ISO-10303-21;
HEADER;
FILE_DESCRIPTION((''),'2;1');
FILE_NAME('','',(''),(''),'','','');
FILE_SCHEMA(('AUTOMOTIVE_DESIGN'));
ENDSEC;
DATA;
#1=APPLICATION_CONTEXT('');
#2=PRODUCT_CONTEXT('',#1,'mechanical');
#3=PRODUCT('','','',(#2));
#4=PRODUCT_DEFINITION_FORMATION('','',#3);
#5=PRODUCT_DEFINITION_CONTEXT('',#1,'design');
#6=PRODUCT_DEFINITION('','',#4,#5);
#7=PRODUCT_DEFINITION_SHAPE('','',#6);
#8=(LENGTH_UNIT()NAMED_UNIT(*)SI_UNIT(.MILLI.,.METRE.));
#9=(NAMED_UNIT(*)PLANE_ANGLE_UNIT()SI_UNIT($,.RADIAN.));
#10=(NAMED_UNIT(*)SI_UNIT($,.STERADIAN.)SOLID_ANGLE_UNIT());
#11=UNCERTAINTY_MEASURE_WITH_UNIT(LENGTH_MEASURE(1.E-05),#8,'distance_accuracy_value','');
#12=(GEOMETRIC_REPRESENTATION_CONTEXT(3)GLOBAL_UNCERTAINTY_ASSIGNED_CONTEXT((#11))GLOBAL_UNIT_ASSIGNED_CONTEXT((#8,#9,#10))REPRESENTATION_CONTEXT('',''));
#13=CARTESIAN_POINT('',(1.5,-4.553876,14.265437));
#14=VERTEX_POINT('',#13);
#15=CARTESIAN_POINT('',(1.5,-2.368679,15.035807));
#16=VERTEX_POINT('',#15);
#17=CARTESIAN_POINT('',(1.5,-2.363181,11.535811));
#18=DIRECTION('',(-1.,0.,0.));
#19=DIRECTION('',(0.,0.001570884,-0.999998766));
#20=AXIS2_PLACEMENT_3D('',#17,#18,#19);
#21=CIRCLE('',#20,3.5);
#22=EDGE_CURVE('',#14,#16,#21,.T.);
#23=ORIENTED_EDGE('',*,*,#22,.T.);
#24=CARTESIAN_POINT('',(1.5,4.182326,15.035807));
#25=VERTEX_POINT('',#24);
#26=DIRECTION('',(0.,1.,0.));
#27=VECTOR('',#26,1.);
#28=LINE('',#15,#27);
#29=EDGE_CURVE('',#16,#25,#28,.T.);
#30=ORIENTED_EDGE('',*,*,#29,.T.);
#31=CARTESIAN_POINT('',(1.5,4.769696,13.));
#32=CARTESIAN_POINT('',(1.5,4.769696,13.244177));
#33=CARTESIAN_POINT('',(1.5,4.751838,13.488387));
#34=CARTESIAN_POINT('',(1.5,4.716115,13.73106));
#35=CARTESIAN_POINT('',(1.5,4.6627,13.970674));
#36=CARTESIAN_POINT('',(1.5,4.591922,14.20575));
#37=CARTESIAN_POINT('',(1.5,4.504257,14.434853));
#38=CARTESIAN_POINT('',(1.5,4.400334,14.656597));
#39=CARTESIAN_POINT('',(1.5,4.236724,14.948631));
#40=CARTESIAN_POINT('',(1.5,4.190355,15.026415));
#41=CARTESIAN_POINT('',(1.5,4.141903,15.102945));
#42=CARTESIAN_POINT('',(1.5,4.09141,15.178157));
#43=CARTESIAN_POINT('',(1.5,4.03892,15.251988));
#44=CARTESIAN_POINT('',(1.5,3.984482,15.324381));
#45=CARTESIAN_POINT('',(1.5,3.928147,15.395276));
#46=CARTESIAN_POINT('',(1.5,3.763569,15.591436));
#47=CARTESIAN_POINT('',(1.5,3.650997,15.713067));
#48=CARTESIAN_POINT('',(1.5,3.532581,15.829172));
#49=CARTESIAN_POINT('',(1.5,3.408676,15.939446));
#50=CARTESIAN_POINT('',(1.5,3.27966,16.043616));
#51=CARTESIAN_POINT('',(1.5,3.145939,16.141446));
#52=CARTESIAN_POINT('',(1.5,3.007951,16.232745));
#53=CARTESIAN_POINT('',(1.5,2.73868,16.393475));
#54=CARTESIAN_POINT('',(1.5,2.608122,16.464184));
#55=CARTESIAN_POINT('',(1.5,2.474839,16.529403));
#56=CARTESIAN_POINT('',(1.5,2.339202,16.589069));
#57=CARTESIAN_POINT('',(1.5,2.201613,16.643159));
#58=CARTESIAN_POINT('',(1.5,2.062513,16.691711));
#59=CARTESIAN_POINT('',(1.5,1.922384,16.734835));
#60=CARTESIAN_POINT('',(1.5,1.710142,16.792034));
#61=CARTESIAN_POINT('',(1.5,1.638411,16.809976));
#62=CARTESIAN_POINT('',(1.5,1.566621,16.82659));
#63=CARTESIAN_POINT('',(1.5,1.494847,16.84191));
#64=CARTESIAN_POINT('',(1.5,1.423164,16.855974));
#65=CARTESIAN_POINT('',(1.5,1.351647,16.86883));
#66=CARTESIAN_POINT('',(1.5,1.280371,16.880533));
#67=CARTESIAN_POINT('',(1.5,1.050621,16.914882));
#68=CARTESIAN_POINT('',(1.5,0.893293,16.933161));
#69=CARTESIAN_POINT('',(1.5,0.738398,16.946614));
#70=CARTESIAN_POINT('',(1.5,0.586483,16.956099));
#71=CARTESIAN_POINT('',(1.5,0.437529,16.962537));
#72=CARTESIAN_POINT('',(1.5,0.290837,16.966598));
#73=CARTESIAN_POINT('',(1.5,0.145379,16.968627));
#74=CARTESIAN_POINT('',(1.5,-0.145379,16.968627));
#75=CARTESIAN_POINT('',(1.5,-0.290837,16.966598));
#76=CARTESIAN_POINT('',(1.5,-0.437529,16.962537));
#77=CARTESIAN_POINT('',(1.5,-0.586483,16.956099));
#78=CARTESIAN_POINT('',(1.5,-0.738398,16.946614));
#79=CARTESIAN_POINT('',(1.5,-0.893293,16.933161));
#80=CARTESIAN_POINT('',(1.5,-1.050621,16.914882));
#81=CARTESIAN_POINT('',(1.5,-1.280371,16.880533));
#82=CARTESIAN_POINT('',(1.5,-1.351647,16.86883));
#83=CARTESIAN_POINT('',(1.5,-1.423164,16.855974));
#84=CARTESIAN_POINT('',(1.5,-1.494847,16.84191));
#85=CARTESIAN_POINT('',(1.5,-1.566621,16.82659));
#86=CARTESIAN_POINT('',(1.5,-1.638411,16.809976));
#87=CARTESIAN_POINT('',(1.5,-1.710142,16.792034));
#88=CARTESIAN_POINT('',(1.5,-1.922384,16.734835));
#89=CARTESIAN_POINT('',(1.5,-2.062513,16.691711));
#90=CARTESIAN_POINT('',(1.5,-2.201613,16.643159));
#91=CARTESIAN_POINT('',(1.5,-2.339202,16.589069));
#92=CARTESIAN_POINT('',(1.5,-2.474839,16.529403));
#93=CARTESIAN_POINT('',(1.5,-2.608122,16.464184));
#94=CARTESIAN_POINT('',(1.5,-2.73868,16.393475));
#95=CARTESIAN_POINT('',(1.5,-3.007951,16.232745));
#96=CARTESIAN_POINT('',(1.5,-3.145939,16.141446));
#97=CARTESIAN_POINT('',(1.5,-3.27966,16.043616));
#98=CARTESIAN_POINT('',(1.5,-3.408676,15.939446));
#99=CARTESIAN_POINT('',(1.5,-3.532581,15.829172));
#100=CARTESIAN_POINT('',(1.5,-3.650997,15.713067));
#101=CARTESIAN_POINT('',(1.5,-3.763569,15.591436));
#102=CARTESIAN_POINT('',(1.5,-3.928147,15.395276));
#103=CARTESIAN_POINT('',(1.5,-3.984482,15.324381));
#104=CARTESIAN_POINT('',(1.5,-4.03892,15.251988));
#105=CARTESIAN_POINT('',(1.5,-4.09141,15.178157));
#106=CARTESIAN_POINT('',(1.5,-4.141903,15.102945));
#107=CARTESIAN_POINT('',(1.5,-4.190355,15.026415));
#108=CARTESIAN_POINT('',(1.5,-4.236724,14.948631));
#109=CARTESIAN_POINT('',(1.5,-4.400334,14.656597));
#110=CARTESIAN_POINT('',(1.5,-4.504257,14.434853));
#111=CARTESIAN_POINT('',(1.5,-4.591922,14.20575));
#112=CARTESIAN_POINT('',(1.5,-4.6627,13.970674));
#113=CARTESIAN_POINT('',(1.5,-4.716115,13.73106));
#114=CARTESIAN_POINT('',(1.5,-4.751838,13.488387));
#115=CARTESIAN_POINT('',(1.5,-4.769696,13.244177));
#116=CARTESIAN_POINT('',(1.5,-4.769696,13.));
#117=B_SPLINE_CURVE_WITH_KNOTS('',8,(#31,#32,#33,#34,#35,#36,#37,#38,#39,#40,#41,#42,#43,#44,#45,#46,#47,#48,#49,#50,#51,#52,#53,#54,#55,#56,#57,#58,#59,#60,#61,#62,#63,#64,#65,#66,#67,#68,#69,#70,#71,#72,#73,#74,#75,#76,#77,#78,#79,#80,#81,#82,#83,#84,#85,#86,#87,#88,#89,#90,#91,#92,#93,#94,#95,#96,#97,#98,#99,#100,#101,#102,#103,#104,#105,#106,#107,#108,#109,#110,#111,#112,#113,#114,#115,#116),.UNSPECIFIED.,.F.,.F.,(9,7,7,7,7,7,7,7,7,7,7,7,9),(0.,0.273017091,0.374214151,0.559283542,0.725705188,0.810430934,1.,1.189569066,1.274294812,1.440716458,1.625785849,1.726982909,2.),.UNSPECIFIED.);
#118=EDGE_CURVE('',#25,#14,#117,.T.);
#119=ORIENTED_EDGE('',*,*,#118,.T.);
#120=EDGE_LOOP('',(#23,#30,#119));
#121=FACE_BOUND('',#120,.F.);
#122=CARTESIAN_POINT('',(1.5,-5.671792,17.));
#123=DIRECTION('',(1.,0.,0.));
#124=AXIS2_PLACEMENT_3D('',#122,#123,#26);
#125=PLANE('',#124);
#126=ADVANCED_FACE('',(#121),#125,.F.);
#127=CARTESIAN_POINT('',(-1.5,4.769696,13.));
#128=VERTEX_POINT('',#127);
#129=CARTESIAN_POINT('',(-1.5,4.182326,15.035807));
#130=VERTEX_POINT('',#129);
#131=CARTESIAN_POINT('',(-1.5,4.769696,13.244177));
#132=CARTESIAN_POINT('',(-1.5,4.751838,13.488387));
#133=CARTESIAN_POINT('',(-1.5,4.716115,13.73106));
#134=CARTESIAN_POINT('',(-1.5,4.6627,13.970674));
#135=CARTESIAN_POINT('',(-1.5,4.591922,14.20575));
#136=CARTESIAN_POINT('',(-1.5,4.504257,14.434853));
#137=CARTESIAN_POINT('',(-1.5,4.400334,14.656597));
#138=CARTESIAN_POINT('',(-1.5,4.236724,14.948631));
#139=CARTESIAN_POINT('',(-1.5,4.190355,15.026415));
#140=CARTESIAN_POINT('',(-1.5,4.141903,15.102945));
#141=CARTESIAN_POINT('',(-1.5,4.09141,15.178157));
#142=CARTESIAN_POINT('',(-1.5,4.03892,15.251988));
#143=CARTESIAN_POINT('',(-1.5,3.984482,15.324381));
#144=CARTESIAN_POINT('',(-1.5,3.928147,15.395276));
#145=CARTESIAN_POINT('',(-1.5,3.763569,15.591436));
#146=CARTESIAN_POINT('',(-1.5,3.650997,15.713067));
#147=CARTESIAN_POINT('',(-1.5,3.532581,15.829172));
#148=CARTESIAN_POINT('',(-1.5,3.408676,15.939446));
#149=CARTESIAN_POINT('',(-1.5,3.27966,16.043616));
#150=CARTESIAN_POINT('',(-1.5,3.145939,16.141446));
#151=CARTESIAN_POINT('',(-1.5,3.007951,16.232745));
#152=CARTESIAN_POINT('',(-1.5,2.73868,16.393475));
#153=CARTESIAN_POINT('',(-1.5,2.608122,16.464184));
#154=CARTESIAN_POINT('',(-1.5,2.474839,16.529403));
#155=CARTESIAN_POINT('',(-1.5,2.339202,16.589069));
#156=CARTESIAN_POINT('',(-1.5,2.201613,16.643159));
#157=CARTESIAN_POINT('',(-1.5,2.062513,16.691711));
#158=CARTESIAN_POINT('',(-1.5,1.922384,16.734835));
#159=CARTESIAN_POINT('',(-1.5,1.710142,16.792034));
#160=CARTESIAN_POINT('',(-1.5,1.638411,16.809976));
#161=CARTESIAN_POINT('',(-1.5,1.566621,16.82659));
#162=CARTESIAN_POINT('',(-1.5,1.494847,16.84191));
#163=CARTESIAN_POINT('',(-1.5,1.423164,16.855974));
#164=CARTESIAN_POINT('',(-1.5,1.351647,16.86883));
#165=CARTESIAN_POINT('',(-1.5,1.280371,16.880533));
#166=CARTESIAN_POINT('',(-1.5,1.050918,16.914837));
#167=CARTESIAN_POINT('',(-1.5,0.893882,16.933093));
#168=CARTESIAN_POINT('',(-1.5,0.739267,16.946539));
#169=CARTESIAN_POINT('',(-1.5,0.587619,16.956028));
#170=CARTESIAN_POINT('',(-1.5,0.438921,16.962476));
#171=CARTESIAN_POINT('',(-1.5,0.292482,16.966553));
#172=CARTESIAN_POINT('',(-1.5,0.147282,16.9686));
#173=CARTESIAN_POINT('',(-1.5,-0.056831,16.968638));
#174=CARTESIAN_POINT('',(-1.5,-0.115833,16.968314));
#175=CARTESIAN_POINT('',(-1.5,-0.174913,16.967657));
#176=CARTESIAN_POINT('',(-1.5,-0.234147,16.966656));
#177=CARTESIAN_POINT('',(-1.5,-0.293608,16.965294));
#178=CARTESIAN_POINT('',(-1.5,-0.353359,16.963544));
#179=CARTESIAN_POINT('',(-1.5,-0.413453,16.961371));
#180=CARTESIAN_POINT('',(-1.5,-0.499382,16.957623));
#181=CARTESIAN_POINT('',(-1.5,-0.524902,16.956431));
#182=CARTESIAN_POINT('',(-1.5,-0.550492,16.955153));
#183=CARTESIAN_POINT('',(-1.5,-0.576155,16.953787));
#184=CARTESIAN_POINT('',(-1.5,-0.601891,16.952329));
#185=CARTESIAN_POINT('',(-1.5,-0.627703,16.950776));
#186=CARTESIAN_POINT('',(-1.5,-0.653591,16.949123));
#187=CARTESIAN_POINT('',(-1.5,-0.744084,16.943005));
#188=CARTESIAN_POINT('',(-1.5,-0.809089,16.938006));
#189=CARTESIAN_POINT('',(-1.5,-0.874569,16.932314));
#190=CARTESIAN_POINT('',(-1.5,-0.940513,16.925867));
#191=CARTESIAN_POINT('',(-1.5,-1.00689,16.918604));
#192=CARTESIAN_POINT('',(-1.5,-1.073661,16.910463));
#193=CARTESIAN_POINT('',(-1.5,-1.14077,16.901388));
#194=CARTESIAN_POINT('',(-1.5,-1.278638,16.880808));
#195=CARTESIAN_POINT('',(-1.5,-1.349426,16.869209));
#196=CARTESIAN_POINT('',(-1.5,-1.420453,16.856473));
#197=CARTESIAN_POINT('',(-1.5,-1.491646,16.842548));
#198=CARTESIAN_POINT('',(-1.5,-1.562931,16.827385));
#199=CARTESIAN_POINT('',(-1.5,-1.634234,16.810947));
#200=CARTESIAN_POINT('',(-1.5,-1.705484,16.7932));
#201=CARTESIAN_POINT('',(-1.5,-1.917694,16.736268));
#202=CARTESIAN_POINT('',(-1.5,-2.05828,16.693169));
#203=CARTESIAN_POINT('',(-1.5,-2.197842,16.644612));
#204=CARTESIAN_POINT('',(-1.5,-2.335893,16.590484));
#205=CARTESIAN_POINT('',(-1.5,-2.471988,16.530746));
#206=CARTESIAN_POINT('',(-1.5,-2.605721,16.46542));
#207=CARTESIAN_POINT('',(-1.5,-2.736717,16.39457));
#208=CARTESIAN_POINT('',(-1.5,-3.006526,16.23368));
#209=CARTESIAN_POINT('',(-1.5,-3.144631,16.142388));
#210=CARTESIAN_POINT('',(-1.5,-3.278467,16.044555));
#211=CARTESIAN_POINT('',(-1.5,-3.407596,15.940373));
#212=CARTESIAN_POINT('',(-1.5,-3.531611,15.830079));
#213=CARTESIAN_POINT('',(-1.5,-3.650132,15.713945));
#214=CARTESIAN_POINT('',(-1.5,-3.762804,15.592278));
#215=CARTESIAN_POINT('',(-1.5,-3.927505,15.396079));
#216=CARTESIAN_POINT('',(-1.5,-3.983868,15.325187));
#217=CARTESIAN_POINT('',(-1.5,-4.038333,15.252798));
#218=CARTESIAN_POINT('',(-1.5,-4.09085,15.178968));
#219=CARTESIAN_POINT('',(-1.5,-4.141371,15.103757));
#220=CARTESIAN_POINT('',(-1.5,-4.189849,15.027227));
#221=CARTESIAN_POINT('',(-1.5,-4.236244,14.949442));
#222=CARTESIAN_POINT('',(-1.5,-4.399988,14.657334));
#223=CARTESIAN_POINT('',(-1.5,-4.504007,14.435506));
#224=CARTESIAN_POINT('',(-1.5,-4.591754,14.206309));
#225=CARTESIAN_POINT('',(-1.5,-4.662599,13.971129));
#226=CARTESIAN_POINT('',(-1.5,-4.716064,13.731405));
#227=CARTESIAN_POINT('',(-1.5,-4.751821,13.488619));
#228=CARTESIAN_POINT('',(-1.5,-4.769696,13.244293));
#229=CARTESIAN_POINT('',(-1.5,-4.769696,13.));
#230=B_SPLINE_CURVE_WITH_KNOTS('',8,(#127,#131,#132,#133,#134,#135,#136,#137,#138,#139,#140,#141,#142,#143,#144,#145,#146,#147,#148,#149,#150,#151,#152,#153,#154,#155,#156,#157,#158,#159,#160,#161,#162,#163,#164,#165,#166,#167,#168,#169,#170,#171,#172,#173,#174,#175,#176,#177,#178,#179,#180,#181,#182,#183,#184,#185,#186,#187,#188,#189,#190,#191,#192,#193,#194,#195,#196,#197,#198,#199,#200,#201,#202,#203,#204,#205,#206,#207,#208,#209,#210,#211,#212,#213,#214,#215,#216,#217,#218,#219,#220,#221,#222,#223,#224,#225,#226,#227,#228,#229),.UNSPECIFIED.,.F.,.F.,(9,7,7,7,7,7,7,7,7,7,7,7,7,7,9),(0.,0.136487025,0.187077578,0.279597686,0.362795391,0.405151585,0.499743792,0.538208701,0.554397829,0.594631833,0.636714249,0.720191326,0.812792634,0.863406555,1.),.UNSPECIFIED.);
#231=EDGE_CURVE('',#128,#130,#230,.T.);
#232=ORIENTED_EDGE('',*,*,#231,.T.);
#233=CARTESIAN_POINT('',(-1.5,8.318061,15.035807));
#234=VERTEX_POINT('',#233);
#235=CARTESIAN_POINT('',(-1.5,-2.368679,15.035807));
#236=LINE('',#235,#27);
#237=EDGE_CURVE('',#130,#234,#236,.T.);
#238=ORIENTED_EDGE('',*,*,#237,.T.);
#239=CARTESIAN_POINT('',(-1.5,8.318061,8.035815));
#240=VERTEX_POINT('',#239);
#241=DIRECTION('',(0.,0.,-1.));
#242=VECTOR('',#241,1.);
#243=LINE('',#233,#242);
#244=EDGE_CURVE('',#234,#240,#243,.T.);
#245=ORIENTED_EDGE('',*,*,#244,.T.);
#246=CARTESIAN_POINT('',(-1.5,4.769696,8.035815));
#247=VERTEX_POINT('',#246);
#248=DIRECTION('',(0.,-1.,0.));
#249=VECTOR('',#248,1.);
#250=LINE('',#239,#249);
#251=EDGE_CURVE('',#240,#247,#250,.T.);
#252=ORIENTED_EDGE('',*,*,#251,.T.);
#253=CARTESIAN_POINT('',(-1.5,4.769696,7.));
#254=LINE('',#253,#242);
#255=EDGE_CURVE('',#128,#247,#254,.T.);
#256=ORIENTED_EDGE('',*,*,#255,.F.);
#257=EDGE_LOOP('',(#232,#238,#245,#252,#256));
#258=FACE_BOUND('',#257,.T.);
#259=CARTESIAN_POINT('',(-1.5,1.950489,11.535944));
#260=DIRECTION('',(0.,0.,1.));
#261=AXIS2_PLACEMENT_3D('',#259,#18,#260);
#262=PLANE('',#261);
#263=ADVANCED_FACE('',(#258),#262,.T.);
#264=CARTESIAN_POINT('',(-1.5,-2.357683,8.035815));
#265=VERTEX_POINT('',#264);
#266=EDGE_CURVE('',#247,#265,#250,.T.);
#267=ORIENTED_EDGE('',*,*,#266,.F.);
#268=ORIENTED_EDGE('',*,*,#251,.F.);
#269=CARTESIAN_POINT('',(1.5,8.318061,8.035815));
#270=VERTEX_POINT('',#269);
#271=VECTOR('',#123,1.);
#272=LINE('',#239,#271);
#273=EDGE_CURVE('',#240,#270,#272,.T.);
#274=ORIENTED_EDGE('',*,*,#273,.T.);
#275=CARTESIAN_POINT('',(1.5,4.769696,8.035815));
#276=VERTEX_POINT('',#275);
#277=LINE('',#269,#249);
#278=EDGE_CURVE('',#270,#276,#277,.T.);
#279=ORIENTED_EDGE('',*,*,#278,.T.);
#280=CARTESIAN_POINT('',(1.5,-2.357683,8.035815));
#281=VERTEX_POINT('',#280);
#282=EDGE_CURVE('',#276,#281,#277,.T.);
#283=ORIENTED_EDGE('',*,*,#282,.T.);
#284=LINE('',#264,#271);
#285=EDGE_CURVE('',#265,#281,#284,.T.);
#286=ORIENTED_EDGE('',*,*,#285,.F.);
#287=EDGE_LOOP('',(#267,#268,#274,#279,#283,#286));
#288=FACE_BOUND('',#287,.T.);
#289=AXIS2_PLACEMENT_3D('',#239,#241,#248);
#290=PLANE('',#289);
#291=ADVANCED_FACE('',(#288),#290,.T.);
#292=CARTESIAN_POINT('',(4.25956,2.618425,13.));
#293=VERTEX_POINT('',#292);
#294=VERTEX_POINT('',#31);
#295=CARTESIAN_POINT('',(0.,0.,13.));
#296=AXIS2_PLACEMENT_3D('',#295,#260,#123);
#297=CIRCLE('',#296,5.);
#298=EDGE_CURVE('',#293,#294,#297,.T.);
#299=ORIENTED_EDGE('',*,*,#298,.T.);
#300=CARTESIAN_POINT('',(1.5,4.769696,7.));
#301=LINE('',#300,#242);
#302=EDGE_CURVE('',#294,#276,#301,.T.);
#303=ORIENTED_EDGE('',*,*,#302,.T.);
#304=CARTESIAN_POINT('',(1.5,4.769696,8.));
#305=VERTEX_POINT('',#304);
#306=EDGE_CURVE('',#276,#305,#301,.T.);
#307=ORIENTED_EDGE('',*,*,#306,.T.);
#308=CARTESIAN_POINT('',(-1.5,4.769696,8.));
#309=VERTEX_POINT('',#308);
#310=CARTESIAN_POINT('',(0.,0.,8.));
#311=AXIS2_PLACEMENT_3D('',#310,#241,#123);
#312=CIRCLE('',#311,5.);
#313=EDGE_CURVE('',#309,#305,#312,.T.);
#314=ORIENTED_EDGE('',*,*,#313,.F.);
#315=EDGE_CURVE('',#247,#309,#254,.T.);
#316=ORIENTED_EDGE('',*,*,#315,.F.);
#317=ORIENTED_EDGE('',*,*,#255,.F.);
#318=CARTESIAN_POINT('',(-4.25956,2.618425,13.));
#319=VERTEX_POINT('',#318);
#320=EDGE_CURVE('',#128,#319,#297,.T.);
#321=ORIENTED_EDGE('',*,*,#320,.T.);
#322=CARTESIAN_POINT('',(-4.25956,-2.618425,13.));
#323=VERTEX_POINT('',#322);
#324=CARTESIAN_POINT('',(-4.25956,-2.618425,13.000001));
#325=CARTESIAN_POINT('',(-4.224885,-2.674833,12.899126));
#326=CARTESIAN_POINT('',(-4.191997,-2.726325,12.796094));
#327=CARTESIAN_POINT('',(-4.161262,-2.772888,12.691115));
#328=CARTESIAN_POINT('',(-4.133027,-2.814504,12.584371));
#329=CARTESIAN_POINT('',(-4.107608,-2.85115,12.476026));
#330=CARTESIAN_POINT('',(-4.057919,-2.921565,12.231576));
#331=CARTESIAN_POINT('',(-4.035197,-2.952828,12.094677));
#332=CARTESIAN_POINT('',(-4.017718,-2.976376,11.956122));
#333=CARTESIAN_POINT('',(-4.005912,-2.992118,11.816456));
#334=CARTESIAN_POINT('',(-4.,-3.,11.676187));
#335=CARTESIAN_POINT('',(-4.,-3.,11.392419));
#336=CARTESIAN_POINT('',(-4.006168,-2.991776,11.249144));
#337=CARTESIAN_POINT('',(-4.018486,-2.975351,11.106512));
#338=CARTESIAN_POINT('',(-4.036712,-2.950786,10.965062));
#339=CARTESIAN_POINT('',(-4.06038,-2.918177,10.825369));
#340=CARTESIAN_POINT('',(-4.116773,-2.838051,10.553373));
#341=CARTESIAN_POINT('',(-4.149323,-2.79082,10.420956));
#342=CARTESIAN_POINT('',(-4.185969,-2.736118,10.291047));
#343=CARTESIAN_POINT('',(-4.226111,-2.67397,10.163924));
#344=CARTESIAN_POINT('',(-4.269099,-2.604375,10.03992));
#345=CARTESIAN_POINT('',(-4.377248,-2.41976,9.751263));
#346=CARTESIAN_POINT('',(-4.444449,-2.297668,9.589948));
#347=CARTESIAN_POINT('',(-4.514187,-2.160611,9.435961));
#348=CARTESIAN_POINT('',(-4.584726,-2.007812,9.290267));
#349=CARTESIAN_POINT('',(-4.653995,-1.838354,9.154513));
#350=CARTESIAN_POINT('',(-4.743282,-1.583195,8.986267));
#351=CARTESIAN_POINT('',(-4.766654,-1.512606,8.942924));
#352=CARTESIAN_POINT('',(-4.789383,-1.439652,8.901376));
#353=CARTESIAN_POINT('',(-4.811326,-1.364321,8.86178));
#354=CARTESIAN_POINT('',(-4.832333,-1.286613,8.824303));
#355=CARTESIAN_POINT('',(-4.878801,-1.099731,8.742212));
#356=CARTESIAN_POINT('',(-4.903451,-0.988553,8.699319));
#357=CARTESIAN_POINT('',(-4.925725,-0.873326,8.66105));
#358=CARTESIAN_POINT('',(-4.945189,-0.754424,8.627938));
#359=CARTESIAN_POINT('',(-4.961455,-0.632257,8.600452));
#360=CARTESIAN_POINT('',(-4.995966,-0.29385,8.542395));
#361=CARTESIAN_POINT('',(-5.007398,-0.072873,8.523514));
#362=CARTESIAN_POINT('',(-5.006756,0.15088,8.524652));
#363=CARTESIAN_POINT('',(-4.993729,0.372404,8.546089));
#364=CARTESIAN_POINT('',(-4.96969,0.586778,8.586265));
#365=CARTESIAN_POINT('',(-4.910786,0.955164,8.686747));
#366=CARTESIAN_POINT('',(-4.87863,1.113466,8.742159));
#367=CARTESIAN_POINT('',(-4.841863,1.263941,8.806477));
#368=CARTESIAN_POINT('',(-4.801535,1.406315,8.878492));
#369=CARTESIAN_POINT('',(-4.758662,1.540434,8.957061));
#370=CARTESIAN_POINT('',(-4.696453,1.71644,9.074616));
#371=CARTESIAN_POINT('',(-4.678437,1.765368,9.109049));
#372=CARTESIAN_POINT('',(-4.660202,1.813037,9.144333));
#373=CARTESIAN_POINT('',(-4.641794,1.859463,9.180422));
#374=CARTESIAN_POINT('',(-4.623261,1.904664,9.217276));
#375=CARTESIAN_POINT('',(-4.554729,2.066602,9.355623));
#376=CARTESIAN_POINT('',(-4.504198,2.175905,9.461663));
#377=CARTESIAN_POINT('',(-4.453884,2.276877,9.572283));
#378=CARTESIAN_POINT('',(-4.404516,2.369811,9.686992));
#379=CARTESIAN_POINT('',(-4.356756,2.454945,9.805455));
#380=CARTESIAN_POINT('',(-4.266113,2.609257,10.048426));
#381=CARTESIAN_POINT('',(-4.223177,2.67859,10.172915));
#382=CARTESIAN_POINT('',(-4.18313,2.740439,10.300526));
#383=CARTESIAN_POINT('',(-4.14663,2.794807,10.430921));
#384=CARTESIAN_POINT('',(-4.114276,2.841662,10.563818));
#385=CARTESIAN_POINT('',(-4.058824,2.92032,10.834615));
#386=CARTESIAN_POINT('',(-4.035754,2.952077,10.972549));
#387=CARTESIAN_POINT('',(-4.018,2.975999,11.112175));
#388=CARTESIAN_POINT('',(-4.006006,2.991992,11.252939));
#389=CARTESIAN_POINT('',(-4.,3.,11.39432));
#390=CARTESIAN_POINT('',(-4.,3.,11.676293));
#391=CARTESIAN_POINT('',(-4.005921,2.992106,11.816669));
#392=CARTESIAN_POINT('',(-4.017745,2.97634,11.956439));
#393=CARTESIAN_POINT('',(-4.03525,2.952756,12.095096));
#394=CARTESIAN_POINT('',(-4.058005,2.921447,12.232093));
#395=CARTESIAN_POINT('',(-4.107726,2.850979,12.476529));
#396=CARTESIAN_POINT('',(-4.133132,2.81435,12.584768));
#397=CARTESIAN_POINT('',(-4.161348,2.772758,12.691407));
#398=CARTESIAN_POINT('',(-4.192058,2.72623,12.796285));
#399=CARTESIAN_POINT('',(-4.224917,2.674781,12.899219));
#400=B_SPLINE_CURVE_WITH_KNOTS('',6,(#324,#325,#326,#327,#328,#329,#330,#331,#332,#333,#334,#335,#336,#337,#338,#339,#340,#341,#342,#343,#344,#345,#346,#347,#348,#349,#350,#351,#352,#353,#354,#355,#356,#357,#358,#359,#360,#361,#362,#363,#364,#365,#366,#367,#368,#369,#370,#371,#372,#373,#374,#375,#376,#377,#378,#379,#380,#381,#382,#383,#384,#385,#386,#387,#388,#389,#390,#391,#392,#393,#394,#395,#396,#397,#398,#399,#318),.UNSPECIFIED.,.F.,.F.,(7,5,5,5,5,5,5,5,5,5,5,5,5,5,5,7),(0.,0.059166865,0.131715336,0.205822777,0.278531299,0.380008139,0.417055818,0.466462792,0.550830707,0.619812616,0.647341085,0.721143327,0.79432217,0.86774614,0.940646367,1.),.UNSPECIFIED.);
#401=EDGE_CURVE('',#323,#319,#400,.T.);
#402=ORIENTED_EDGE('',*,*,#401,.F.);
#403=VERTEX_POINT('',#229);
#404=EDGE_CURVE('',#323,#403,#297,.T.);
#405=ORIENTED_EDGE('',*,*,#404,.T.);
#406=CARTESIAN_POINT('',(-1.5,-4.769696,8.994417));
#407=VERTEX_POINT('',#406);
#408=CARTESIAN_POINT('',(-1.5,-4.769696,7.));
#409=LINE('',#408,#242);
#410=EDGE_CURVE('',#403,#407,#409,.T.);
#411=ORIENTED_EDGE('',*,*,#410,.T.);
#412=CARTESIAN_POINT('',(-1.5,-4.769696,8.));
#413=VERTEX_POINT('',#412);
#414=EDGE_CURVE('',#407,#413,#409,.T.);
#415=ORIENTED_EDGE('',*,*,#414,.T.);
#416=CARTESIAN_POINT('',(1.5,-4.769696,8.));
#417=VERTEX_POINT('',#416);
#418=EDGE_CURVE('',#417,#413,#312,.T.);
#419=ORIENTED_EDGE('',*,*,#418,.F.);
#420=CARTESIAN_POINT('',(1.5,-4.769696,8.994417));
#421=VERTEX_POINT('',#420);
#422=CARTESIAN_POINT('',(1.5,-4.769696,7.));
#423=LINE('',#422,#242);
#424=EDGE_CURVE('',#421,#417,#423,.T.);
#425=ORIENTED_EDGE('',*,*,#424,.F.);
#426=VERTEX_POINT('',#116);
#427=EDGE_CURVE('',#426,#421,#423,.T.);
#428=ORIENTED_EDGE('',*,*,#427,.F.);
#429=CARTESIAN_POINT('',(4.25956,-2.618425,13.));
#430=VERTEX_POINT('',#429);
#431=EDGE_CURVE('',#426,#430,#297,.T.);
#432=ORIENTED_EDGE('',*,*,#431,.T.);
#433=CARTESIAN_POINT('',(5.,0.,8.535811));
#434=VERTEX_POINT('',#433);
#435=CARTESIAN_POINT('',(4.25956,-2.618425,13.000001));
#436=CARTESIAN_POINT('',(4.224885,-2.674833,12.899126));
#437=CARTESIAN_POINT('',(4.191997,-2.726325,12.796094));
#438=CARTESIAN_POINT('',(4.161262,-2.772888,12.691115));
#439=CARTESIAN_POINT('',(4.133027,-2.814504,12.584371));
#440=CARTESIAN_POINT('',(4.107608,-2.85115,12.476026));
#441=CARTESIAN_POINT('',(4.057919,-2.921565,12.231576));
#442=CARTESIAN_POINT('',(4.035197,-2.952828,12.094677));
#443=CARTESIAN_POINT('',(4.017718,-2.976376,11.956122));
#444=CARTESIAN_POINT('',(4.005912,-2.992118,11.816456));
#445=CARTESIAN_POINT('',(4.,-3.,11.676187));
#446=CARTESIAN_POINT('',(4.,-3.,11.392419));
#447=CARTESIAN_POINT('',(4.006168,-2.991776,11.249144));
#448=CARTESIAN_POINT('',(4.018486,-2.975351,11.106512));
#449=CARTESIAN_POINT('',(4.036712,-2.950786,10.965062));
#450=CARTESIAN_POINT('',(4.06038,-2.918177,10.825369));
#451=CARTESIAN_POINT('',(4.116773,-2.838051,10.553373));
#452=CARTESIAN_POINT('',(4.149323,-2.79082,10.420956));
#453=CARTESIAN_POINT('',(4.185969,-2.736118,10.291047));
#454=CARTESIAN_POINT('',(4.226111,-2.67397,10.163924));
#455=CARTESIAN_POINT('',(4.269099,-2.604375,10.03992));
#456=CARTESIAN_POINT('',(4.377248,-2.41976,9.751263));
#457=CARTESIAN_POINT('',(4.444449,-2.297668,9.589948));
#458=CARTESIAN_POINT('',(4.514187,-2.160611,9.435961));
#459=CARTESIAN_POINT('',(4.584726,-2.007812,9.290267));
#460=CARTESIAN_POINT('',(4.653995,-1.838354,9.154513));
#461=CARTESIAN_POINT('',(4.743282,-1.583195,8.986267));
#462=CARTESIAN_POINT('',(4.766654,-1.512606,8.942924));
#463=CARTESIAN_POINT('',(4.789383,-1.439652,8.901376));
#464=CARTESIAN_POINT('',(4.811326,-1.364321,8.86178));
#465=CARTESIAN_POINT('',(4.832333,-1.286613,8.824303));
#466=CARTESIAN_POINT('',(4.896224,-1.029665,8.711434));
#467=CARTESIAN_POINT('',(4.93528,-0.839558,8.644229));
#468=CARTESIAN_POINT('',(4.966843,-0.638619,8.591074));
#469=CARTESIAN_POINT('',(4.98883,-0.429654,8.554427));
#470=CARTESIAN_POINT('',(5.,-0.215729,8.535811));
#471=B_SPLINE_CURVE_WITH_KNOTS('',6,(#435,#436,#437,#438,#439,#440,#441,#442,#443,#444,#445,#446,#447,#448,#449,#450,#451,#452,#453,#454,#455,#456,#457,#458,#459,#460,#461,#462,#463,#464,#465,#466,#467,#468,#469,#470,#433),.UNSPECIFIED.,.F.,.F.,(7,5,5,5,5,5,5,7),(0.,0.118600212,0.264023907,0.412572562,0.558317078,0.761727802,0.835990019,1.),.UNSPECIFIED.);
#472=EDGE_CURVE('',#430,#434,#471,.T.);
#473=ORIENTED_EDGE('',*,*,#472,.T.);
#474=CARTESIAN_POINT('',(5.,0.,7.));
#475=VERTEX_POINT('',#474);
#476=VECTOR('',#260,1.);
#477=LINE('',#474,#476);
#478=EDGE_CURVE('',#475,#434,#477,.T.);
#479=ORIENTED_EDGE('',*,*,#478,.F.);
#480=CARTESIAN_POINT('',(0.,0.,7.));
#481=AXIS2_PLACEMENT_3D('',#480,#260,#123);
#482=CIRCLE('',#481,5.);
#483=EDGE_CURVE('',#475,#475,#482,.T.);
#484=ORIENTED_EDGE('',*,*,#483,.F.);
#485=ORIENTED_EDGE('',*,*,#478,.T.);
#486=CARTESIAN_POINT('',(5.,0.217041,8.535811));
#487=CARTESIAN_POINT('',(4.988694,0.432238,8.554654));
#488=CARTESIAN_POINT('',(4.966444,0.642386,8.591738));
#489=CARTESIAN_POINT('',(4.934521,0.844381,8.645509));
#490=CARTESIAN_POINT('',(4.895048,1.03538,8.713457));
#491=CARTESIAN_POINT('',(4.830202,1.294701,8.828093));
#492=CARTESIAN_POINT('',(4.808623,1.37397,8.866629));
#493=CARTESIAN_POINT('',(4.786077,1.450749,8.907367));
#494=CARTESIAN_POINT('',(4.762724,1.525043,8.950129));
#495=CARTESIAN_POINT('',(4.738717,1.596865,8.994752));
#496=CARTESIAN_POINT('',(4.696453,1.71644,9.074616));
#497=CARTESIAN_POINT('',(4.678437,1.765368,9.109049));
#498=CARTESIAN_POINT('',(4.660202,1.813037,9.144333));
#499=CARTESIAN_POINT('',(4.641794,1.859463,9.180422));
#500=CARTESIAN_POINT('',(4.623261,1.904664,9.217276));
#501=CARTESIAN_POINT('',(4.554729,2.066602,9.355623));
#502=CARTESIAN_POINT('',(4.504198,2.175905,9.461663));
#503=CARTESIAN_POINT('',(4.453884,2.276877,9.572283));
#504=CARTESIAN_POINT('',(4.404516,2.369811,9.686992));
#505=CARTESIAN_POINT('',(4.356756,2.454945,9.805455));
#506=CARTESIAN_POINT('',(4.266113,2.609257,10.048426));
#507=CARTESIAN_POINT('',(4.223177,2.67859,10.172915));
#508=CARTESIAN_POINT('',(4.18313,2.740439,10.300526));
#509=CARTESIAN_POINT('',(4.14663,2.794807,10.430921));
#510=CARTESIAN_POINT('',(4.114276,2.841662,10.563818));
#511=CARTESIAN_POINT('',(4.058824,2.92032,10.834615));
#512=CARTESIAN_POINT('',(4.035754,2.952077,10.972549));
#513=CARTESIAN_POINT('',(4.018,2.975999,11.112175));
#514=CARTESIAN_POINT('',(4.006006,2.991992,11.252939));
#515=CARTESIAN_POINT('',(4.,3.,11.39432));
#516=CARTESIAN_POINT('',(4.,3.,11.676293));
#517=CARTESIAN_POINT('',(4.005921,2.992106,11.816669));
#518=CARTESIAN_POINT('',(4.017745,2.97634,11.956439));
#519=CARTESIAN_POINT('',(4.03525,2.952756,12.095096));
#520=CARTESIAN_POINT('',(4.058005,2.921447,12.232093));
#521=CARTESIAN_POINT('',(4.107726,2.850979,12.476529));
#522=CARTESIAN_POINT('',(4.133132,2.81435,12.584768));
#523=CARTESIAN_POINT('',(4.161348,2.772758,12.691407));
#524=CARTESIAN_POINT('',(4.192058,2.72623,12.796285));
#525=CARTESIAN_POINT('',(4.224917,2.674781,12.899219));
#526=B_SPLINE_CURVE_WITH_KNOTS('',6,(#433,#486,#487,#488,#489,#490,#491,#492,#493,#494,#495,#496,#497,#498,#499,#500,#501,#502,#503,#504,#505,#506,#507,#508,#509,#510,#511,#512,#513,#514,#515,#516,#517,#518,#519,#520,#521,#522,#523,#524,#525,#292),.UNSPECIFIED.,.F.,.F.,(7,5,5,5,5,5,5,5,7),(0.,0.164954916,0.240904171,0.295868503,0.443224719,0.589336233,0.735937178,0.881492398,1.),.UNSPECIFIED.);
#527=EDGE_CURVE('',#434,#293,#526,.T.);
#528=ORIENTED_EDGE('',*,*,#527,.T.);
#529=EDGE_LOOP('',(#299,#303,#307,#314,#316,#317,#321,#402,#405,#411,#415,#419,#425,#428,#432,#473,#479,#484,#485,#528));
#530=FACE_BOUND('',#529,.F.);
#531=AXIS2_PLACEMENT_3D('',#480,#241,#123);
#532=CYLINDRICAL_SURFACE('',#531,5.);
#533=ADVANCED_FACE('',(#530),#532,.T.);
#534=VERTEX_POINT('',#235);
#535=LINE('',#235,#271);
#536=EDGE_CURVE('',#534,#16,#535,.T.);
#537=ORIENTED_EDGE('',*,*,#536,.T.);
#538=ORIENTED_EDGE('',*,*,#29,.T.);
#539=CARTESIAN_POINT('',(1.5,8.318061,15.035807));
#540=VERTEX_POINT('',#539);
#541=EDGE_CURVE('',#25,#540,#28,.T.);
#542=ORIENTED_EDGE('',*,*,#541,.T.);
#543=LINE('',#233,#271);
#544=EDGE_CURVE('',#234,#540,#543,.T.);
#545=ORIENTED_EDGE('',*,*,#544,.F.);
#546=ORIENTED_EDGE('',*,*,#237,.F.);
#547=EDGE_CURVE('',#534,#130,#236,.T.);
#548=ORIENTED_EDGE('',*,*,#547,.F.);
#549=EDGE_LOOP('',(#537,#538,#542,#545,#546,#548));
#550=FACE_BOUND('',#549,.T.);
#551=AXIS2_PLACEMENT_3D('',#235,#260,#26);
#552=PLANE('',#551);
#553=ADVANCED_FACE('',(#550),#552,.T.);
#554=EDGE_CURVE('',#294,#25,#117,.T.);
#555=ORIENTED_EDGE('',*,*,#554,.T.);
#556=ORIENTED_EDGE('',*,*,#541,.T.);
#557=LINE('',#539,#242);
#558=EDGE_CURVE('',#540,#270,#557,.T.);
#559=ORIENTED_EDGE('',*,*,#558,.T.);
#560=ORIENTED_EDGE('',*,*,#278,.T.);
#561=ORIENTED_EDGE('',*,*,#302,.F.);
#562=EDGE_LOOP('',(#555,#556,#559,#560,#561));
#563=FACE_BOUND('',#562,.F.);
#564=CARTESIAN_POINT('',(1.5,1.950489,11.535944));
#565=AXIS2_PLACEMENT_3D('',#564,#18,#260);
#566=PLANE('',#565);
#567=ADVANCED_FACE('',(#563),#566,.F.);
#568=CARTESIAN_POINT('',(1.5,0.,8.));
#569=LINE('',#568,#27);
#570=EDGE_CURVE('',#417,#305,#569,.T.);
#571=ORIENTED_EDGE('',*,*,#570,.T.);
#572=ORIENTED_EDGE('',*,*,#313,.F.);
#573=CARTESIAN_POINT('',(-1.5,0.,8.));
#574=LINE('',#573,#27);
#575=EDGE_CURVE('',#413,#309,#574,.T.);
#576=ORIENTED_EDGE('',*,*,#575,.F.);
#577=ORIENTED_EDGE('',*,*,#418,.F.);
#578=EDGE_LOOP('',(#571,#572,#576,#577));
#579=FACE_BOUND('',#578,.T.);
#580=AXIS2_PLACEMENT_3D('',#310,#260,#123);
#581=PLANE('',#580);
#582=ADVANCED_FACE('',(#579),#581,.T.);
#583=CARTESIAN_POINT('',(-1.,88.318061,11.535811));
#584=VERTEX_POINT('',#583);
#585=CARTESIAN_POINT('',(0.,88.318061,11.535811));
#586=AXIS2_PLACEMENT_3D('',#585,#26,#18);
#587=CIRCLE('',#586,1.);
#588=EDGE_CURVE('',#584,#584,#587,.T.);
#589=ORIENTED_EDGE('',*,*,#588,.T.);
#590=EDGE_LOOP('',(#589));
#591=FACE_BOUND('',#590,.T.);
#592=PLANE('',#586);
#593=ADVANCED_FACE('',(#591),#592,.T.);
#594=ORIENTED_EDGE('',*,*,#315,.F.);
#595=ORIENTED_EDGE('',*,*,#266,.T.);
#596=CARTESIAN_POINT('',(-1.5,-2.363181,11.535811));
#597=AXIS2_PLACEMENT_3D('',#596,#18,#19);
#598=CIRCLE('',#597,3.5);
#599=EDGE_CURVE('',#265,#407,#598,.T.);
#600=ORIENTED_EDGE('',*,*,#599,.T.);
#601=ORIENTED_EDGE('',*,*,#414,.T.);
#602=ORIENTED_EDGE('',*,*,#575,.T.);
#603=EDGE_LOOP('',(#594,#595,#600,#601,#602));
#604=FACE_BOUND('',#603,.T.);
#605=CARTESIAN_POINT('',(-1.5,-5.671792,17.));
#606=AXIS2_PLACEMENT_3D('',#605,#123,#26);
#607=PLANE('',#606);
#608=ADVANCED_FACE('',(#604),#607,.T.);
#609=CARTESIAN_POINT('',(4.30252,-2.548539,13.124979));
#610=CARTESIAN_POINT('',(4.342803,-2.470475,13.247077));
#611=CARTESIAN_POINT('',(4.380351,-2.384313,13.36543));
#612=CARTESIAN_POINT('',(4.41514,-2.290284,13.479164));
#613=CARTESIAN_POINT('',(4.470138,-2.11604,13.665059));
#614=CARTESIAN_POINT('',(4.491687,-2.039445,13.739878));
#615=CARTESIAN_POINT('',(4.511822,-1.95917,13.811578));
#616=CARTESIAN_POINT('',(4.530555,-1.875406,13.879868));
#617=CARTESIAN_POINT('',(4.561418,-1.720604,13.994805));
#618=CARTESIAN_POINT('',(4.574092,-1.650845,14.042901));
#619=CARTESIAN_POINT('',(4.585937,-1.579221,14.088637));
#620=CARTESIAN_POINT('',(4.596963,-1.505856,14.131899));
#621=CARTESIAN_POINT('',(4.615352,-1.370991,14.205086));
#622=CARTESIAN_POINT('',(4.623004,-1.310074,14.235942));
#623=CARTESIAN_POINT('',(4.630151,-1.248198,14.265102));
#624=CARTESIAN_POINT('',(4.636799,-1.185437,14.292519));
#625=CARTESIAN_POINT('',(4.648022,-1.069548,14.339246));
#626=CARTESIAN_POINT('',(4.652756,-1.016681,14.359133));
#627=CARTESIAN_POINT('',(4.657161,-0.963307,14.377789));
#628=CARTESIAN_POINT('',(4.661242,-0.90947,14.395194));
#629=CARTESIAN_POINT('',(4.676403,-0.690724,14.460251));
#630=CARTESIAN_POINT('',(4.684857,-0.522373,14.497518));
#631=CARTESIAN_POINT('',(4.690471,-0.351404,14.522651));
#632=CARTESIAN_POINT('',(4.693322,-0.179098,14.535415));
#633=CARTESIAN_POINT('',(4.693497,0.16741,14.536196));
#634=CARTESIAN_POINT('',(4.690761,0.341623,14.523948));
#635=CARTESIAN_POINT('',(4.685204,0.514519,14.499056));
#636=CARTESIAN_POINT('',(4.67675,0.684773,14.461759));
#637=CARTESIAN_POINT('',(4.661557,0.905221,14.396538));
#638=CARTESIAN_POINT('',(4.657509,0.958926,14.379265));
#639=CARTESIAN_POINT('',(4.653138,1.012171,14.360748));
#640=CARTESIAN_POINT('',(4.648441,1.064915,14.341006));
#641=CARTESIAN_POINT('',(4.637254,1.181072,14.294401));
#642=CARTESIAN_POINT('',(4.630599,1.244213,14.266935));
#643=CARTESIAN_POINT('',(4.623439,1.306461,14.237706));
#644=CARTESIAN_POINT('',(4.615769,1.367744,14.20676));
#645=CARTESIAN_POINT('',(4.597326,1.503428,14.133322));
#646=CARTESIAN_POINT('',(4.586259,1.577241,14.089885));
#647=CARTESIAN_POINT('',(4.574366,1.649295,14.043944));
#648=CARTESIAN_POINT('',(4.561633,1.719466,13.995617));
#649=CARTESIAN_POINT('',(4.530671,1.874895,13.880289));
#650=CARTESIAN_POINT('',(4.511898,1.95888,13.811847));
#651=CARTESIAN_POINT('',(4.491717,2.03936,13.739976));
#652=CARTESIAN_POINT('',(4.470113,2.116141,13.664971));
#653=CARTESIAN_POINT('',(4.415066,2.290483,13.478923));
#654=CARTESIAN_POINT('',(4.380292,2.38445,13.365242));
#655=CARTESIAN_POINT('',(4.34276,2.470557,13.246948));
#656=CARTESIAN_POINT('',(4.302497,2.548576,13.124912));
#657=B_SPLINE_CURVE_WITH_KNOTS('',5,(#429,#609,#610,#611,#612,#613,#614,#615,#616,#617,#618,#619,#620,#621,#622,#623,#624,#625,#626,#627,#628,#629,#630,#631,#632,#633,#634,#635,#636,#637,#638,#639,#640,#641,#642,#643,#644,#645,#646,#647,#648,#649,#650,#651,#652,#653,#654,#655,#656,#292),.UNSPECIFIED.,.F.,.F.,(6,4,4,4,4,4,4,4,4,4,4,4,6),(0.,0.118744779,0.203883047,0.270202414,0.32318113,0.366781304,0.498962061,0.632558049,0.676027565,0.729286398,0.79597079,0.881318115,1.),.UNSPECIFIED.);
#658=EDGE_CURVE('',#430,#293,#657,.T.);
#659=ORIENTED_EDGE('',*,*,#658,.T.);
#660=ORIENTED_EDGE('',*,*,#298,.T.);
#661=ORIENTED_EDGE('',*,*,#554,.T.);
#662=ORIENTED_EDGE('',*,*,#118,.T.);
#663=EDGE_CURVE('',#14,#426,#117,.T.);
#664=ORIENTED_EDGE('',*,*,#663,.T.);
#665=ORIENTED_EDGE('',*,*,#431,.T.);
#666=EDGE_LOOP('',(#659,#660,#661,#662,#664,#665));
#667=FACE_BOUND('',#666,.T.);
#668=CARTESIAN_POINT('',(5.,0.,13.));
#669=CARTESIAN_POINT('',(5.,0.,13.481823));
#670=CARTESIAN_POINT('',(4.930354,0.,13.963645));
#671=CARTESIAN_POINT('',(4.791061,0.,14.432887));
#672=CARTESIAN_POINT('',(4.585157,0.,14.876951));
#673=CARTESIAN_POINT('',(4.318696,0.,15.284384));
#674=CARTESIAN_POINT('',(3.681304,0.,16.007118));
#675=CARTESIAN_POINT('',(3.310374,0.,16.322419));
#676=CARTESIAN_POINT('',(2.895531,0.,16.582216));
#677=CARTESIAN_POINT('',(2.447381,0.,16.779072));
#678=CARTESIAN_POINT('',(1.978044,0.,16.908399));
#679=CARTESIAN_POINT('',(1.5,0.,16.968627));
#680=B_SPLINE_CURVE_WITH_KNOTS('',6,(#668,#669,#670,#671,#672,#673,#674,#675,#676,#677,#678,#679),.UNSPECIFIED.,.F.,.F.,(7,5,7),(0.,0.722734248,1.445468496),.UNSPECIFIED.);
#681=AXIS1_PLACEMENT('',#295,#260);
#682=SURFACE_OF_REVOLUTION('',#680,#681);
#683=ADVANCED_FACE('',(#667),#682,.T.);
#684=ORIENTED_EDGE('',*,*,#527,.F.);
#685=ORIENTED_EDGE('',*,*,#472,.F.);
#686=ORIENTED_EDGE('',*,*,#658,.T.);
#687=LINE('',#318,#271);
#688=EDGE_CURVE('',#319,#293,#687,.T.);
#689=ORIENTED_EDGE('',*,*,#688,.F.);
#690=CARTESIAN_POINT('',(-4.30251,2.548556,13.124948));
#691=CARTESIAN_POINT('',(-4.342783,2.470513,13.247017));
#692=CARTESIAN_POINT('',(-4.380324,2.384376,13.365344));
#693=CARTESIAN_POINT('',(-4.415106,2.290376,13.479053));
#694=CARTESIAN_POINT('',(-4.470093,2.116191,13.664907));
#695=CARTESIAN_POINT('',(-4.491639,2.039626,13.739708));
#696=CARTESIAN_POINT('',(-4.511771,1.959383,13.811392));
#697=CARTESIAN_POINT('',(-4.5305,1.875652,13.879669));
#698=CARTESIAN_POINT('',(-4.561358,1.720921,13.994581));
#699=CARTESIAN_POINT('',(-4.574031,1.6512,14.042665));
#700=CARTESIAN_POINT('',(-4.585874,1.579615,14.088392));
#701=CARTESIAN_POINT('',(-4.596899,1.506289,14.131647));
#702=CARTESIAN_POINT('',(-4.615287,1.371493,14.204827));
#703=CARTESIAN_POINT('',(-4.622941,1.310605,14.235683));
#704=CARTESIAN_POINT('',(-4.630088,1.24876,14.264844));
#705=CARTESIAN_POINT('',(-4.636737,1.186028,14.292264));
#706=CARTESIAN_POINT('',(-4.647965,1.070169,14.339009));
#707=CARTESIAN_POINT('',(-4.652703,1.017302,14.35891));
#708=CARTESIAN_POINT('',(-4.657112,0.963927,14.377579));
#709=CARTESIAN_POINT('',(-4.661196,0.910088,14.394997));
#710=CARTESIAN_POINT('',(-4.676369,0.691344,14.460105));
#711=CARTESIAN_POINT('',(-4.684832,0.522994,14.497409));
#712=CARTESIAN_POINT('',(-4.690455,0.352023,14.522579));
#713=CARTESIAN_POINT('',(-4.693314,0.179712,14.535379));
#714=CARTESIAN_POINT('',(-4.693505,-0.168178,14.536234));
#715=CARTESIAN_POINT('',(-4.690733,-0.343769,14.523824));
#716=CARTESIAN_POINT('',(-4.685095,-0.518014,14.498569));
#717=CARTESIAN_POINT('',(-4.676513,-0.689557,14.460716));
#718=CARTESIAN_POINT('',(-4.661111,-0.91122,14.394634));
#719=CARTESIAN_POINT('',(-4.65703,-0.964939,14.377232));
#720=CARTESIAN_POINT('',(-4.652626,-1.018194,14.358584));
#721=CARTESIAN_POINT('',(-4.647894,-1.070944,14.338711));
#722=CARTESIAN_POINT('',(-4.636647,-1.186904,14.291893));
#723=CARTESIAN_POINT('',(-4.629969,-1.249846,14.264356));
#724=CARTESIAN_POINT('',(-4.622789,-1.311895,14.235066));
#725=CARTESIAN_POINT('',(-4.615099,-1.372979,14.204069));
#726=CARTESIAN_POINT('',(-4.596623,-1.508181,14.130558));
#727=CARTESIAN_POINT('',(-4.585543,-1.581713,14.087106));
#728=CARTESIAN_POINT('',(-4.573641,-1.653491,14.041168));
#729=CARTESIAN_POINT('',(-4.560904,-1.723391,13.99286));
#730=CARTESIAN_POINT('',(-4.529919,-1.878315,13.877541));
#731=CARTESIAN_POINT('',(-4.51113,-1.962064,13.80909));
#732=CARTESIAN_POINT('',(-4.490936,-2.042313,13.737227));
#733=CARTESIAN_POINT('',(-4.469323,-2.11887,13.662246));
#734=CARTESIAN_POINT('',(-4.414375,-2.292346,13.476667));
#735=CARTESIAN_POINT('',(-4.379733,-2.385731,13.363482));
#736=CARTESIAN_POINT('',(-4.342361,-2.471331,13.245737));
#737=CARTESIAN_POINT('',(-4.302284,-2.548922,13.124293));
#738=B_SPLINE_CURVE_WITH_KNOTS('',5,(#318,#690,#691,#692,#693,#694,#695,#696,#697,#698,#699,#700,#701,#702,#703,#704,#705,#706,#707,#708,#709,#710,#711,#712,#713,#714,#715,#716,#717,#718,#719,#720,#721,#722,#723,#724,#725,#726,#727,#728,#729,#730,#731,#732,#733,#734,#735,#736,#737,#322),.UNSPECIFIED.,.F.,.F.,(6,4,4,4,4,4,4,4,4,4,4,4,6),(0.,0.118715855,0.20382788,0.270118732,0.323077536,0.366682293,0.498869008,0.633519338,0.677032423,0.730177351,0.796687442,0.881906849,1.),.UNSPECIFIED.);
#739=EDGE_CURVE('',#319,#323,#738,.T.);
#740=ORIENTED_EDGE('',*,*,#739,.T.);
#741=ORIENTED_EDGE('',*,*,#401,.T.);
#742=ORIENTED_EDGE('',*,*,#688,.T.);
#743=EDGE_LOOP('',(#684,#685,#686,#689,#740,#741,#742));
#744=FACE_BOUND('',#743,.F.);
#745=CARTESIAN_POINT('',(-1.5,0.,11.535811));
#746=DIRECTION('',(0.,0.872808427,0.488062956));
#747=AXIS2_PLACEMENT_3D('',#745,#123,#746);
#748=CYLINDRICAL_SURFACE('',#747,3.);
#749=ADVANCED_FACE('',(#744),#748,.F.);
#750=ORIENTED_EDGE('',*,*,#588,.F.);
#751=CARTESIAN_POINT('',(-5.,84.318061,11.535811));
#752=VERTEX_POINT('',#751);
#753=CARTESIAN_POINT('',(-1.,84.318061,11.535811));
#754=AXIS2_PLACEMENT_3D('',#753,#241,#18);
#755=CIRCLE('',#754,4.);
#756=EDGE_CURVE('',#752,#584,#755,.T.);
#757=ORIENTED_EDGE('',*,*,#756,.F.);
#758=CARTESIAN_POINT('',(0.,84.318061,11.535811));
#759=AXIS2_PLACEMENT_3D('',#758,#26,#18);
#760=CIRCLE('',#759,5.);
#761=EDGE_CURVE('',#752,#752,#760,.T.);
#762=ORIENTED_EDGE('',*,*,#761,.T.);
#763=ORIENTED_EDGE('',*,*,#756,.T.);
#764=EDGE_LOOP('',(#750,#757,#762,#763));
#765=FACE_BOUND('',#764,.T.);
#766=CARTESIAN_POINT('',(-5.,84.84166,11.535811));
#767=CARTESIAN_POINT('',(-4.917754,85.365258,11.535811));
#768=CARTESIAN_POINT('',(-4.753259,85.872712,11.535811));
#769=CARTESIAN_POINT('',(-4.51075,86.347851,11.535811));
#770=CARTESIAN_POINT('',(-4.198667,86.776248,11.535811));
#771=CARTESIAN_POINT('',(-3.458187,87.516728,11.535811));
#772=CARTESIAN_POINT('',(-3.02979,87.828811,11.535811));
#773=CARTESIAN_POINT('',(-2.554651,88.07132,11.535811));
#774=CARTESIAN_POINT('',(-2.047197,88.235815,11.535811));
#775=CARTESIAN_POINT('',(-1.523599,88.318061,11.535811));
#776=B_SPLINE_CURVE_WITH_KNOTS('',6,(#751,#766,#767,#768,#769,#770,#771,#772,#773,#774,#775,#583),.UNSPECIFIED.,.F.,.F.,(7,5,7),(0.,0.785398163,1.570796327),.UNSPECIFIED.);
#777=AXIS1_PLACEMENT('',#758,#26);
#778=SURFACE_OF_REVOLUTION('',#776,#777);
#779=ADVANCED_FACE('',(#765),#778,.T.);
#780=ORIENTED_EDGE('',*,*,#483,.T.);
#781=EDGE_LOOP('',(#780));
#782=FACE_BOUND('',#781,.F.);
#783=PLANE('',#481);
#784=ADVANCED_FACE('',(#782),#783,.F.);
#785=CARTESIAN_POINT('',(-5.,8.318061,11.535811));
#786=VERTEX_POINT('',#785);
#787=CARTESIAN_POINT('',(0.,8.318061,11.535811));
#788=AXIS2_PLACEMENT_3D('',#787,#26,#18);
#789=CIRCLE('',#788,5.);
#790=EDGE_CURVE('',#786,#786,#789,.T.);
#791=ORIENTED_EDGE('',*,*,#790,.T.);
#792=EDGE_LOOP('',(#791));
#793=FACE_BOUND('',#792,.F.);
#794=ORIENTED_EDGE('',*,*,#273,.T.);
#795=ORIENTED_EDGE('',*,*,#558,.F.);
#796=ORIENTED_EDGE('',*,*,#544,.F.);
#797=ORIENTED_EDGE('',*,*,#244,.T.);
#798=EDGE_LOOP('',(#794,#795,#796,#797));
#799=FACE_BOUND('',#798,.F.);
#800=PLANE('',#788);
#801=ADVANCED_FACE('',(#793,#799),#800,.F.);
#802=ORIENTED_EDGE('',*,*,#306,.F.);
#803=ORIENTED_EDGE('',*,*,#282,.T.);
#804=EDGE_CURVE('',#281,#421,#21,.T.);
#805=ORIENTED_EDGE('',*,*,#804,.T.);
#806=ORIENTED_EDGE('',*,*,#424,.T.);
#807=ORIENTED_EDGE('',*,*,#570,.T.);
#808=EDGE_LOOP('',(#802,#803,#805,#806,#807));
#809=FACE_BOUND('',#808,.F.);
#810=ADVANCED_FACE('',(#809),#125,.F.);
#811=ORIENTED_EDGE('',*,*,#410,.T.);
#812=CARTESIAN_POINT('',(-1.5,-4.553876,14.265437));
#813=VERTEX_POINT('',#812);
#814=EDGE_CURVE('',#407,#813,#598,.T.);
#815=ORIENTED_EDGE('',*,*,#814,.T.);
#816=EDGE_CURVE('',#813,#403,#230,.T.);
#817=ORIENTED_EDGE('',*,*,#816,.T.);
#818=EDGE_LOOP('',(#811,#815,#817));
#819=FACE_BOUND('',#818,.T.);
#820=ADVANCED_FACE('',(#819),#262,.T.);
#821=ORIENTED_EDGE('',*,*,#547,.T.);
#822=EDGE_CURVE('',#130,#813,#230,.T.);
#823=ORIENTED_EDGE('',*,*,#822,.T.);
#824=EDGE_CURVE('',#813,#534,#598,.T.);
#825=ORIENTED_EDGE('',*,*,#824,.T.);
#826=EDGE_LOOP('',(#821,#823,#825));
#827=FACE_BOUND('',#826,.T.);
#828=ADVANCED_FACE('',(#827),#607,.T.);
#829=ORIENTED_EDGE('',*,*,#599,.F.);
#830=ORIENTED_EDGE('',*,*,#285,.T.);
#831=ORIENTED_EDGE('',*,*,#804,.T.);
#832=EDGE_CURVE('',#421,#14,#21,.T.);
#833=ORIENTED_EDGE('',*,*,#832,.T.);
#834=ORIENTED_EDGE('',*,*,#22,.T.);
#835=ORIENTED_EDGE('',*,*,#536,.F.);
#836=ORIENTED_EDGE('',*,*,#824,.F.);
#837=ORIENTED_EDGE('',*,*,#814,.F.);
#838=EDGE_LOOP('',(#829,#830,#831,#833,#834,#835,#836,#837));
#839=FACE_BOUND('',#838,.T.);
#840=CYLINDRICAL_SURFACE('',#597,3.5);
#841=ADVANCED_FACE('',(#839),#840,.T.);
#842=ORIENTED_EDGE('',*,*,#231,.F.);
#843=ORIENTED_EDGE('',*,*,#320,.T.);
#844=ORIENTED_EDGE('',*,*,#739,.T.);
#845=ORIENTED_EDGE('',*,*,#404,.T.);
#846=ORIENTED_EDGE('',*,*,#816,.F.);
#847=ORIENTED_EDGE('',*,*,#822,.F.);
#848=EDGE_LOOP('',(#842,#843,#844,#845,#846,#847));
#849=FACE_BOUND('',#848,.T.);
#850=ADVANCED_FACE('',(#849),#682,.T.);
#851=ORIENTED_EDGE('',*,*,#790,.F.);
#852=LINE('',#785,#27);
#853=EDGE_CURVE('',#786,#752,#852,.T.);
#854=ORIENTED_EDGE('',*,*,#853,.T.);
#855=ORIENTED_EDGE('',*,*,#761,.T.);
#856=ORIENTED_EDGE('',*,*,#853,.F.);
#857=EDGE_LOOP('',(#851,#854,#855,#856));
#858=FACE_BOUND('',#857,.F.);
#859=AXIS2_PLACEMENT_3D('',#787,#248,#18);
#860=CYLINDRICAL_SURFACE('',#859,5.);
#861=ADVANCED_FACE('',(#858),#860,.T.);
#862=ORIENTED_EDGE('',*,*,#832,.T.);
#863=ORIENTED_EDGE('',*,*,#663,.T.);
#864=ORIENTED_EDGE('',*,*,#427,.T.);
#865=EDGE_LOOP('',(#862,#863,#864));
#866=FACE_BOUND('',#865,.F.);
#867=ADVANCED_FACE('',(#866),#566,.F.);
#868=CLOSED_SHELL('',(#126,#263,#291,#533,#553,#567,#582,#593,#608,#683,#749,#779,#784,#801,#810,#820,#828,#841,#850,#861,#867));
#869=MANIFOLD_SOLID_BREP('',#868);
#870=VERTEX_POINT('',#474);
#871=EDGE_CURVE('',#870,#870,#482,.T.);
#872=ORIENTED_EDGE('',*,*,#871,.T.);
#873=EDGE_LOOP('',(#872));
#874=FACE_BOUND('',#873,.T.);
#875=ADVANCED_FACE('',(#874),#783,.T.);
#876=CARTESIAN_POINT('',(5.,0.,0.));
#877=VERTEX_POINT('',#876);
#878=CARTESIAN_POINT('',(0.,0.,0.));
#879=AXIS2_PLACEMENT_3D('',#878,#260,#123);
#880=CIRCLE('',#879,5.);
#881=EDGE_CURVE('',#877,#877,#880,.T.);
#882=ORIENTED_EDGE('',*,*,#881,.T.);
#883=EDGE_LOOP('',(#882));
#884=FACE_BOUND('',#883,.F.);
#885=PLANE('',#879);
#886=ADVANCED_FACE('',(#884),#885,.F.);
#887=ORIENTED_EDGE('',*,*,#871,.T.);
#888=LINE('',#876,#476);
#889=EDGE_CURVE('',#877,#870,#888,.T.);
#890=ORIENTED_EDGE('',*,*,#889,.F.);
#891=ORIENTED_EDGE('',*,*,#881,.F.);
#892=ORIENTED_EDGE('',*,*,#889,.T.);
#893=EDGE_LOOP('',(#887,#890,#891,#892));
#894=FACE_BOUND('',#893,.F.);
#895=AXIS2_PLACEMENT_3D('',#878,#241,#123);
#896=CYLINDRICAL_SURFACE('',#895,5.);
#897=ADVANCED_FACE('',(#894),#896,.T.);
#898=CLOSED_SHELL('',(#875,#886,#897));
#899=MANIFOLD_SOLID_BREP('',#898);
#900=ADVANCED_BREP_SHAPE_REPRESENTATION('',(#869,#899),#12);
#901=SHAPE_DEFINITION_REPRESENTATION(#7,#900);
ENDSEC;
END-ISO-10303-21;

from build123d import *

# Parameters (mm, degrees)
SKETCH_1_R          = 5
EXTRUDE_1_DEPTH     = 7
SKETCH_3_R          = 5
EXTRUDE_3_DEPTH     = 10
FILLET_1_R          = 4
SKETCH_4_W          = 3
SKETCH_4_H          = 11.343584382
CUT_EXTRUDE_5_DEPTH = 9
SKETCH_5_R          = 3
CUT_EXTRUDE_6_DEPTH = 18.5
EXTRUDE_7_DEPTH     = 3
SKETCH_7_R          = 5
EXTRUDE_8_DEPTH     = 80
FILLET_2_R          = 4
SKETCH_8_R          = 3
CUT_EXTRUDE_9_DEPTH = 91.16797782


with BuildPart() as part:
    # Эскиз1 → Вытянуть1 (new body)
    with BuildSketch(Plane.XY):
        Circle(SKETCH_1_R)
    extrude(amount=EXTRUDE_1_DEPTH)


with BuildPart() as body_2:
    # Эскиз3 → Вытянуть3 (new body)
    with BuildSketch(Plane.XY.offset(7)):
        Circle(SKETCH_3_R)
    extrude(amount=EXTRUDE_3_DEPTH)

    # Скругление1
    fillet_1_edges = [body_2.edges().sort_by_distance(p)[0] for p in [
        (-5, 0, 17),
    ]]
    fillet(fillet_1_edges, radius=FILLET_1_R)

    # Эскиз4 → Вытянуть5 (cut)
    with BuildSketch(Plane.XY.offset(17)):
        Rectangle(SKETCH_4_W, SKETCH_4_H)
    extrude(amount=-CUT_EXTRUDE_5_DEPTH, mode=Mode.SUBTRACT)

    # Эскиз5 → Вытянуть6 (cut, symmetric)
    with BuildSketch(Plane(origin=(-1.5, 0, 0), x_dir=(0, 0, -1), z_dir=(1, 0, 0))):
        with Locations(Location((-11.535811132, 0, 0), (0, 0, 119.213344615))):
            Circle(SKETCH_5_R)
    extrude(amount=CUT_EXTRUDE_6_DEPTH, both=True, mode=Mode.SUBTRACT)

    # Эскиз6 → Вытянуть7 (add)
    with BuildSketch(Plane(origin=(-1.5, 0, 0), x_dir=(0, 0, -1), z_dir=(1, 0, 0))):
        with BuildLine():
            Line((-15.035806814, -2.368679074), (-15.035806814, 8.31806101))
            Line((-15.035806814, 8.31806101), (-8.03581545, 8.31806101))
            Line((-8.03581545, 8.31806101), (-8.03581545, -2.357682884))
            ThreePointArc((-8.03581545, -2.357682884), (-11.530313037, -5.86317666), (-15.035806814, -2.368679074))
        make_face()
    extrude(amount=EXTRUDE_7_DEPTH)

    # Эскиз7 → Вытянуть8 (add)
    with BuildSketch(Plane(origin=(0, 8.31806101, 0), x_dir=(-1, 0, 0), z_dir=(0, 1, 0))):
        with Locations((0, 11.535811132)):
            Circle(SKETCH_7_R)
    extrude(amount=EXTRUDE_8_DEPTH)

    # Скругление2
    fillet_2_edges = [body_2.edges().sort_by_distance(p)[0] for p in [
        (5, 88.31806101, 11.535811132),
    ]]
    fillet(fillet_2_edges, radius=FILLET_2_R)

    # Эскиз8 → Вытянуть9 (cut, through all)
    with BuildSketch(Plane(origin=(1.5, 0, 0), x_dir=(0, 0, -1), z_dir=(1, 0, 0))):
        with Locations(Location((-11.535811132, 0, 0), (0, 0, 119.213344615))):
            Circle(SKETCH_8_R)
    extrude(amount=-CUT_EXTRUDE_9_DEPTH, mode=Mode.SUBTRACT)


solid = Compound([part.part, body_2.part])
